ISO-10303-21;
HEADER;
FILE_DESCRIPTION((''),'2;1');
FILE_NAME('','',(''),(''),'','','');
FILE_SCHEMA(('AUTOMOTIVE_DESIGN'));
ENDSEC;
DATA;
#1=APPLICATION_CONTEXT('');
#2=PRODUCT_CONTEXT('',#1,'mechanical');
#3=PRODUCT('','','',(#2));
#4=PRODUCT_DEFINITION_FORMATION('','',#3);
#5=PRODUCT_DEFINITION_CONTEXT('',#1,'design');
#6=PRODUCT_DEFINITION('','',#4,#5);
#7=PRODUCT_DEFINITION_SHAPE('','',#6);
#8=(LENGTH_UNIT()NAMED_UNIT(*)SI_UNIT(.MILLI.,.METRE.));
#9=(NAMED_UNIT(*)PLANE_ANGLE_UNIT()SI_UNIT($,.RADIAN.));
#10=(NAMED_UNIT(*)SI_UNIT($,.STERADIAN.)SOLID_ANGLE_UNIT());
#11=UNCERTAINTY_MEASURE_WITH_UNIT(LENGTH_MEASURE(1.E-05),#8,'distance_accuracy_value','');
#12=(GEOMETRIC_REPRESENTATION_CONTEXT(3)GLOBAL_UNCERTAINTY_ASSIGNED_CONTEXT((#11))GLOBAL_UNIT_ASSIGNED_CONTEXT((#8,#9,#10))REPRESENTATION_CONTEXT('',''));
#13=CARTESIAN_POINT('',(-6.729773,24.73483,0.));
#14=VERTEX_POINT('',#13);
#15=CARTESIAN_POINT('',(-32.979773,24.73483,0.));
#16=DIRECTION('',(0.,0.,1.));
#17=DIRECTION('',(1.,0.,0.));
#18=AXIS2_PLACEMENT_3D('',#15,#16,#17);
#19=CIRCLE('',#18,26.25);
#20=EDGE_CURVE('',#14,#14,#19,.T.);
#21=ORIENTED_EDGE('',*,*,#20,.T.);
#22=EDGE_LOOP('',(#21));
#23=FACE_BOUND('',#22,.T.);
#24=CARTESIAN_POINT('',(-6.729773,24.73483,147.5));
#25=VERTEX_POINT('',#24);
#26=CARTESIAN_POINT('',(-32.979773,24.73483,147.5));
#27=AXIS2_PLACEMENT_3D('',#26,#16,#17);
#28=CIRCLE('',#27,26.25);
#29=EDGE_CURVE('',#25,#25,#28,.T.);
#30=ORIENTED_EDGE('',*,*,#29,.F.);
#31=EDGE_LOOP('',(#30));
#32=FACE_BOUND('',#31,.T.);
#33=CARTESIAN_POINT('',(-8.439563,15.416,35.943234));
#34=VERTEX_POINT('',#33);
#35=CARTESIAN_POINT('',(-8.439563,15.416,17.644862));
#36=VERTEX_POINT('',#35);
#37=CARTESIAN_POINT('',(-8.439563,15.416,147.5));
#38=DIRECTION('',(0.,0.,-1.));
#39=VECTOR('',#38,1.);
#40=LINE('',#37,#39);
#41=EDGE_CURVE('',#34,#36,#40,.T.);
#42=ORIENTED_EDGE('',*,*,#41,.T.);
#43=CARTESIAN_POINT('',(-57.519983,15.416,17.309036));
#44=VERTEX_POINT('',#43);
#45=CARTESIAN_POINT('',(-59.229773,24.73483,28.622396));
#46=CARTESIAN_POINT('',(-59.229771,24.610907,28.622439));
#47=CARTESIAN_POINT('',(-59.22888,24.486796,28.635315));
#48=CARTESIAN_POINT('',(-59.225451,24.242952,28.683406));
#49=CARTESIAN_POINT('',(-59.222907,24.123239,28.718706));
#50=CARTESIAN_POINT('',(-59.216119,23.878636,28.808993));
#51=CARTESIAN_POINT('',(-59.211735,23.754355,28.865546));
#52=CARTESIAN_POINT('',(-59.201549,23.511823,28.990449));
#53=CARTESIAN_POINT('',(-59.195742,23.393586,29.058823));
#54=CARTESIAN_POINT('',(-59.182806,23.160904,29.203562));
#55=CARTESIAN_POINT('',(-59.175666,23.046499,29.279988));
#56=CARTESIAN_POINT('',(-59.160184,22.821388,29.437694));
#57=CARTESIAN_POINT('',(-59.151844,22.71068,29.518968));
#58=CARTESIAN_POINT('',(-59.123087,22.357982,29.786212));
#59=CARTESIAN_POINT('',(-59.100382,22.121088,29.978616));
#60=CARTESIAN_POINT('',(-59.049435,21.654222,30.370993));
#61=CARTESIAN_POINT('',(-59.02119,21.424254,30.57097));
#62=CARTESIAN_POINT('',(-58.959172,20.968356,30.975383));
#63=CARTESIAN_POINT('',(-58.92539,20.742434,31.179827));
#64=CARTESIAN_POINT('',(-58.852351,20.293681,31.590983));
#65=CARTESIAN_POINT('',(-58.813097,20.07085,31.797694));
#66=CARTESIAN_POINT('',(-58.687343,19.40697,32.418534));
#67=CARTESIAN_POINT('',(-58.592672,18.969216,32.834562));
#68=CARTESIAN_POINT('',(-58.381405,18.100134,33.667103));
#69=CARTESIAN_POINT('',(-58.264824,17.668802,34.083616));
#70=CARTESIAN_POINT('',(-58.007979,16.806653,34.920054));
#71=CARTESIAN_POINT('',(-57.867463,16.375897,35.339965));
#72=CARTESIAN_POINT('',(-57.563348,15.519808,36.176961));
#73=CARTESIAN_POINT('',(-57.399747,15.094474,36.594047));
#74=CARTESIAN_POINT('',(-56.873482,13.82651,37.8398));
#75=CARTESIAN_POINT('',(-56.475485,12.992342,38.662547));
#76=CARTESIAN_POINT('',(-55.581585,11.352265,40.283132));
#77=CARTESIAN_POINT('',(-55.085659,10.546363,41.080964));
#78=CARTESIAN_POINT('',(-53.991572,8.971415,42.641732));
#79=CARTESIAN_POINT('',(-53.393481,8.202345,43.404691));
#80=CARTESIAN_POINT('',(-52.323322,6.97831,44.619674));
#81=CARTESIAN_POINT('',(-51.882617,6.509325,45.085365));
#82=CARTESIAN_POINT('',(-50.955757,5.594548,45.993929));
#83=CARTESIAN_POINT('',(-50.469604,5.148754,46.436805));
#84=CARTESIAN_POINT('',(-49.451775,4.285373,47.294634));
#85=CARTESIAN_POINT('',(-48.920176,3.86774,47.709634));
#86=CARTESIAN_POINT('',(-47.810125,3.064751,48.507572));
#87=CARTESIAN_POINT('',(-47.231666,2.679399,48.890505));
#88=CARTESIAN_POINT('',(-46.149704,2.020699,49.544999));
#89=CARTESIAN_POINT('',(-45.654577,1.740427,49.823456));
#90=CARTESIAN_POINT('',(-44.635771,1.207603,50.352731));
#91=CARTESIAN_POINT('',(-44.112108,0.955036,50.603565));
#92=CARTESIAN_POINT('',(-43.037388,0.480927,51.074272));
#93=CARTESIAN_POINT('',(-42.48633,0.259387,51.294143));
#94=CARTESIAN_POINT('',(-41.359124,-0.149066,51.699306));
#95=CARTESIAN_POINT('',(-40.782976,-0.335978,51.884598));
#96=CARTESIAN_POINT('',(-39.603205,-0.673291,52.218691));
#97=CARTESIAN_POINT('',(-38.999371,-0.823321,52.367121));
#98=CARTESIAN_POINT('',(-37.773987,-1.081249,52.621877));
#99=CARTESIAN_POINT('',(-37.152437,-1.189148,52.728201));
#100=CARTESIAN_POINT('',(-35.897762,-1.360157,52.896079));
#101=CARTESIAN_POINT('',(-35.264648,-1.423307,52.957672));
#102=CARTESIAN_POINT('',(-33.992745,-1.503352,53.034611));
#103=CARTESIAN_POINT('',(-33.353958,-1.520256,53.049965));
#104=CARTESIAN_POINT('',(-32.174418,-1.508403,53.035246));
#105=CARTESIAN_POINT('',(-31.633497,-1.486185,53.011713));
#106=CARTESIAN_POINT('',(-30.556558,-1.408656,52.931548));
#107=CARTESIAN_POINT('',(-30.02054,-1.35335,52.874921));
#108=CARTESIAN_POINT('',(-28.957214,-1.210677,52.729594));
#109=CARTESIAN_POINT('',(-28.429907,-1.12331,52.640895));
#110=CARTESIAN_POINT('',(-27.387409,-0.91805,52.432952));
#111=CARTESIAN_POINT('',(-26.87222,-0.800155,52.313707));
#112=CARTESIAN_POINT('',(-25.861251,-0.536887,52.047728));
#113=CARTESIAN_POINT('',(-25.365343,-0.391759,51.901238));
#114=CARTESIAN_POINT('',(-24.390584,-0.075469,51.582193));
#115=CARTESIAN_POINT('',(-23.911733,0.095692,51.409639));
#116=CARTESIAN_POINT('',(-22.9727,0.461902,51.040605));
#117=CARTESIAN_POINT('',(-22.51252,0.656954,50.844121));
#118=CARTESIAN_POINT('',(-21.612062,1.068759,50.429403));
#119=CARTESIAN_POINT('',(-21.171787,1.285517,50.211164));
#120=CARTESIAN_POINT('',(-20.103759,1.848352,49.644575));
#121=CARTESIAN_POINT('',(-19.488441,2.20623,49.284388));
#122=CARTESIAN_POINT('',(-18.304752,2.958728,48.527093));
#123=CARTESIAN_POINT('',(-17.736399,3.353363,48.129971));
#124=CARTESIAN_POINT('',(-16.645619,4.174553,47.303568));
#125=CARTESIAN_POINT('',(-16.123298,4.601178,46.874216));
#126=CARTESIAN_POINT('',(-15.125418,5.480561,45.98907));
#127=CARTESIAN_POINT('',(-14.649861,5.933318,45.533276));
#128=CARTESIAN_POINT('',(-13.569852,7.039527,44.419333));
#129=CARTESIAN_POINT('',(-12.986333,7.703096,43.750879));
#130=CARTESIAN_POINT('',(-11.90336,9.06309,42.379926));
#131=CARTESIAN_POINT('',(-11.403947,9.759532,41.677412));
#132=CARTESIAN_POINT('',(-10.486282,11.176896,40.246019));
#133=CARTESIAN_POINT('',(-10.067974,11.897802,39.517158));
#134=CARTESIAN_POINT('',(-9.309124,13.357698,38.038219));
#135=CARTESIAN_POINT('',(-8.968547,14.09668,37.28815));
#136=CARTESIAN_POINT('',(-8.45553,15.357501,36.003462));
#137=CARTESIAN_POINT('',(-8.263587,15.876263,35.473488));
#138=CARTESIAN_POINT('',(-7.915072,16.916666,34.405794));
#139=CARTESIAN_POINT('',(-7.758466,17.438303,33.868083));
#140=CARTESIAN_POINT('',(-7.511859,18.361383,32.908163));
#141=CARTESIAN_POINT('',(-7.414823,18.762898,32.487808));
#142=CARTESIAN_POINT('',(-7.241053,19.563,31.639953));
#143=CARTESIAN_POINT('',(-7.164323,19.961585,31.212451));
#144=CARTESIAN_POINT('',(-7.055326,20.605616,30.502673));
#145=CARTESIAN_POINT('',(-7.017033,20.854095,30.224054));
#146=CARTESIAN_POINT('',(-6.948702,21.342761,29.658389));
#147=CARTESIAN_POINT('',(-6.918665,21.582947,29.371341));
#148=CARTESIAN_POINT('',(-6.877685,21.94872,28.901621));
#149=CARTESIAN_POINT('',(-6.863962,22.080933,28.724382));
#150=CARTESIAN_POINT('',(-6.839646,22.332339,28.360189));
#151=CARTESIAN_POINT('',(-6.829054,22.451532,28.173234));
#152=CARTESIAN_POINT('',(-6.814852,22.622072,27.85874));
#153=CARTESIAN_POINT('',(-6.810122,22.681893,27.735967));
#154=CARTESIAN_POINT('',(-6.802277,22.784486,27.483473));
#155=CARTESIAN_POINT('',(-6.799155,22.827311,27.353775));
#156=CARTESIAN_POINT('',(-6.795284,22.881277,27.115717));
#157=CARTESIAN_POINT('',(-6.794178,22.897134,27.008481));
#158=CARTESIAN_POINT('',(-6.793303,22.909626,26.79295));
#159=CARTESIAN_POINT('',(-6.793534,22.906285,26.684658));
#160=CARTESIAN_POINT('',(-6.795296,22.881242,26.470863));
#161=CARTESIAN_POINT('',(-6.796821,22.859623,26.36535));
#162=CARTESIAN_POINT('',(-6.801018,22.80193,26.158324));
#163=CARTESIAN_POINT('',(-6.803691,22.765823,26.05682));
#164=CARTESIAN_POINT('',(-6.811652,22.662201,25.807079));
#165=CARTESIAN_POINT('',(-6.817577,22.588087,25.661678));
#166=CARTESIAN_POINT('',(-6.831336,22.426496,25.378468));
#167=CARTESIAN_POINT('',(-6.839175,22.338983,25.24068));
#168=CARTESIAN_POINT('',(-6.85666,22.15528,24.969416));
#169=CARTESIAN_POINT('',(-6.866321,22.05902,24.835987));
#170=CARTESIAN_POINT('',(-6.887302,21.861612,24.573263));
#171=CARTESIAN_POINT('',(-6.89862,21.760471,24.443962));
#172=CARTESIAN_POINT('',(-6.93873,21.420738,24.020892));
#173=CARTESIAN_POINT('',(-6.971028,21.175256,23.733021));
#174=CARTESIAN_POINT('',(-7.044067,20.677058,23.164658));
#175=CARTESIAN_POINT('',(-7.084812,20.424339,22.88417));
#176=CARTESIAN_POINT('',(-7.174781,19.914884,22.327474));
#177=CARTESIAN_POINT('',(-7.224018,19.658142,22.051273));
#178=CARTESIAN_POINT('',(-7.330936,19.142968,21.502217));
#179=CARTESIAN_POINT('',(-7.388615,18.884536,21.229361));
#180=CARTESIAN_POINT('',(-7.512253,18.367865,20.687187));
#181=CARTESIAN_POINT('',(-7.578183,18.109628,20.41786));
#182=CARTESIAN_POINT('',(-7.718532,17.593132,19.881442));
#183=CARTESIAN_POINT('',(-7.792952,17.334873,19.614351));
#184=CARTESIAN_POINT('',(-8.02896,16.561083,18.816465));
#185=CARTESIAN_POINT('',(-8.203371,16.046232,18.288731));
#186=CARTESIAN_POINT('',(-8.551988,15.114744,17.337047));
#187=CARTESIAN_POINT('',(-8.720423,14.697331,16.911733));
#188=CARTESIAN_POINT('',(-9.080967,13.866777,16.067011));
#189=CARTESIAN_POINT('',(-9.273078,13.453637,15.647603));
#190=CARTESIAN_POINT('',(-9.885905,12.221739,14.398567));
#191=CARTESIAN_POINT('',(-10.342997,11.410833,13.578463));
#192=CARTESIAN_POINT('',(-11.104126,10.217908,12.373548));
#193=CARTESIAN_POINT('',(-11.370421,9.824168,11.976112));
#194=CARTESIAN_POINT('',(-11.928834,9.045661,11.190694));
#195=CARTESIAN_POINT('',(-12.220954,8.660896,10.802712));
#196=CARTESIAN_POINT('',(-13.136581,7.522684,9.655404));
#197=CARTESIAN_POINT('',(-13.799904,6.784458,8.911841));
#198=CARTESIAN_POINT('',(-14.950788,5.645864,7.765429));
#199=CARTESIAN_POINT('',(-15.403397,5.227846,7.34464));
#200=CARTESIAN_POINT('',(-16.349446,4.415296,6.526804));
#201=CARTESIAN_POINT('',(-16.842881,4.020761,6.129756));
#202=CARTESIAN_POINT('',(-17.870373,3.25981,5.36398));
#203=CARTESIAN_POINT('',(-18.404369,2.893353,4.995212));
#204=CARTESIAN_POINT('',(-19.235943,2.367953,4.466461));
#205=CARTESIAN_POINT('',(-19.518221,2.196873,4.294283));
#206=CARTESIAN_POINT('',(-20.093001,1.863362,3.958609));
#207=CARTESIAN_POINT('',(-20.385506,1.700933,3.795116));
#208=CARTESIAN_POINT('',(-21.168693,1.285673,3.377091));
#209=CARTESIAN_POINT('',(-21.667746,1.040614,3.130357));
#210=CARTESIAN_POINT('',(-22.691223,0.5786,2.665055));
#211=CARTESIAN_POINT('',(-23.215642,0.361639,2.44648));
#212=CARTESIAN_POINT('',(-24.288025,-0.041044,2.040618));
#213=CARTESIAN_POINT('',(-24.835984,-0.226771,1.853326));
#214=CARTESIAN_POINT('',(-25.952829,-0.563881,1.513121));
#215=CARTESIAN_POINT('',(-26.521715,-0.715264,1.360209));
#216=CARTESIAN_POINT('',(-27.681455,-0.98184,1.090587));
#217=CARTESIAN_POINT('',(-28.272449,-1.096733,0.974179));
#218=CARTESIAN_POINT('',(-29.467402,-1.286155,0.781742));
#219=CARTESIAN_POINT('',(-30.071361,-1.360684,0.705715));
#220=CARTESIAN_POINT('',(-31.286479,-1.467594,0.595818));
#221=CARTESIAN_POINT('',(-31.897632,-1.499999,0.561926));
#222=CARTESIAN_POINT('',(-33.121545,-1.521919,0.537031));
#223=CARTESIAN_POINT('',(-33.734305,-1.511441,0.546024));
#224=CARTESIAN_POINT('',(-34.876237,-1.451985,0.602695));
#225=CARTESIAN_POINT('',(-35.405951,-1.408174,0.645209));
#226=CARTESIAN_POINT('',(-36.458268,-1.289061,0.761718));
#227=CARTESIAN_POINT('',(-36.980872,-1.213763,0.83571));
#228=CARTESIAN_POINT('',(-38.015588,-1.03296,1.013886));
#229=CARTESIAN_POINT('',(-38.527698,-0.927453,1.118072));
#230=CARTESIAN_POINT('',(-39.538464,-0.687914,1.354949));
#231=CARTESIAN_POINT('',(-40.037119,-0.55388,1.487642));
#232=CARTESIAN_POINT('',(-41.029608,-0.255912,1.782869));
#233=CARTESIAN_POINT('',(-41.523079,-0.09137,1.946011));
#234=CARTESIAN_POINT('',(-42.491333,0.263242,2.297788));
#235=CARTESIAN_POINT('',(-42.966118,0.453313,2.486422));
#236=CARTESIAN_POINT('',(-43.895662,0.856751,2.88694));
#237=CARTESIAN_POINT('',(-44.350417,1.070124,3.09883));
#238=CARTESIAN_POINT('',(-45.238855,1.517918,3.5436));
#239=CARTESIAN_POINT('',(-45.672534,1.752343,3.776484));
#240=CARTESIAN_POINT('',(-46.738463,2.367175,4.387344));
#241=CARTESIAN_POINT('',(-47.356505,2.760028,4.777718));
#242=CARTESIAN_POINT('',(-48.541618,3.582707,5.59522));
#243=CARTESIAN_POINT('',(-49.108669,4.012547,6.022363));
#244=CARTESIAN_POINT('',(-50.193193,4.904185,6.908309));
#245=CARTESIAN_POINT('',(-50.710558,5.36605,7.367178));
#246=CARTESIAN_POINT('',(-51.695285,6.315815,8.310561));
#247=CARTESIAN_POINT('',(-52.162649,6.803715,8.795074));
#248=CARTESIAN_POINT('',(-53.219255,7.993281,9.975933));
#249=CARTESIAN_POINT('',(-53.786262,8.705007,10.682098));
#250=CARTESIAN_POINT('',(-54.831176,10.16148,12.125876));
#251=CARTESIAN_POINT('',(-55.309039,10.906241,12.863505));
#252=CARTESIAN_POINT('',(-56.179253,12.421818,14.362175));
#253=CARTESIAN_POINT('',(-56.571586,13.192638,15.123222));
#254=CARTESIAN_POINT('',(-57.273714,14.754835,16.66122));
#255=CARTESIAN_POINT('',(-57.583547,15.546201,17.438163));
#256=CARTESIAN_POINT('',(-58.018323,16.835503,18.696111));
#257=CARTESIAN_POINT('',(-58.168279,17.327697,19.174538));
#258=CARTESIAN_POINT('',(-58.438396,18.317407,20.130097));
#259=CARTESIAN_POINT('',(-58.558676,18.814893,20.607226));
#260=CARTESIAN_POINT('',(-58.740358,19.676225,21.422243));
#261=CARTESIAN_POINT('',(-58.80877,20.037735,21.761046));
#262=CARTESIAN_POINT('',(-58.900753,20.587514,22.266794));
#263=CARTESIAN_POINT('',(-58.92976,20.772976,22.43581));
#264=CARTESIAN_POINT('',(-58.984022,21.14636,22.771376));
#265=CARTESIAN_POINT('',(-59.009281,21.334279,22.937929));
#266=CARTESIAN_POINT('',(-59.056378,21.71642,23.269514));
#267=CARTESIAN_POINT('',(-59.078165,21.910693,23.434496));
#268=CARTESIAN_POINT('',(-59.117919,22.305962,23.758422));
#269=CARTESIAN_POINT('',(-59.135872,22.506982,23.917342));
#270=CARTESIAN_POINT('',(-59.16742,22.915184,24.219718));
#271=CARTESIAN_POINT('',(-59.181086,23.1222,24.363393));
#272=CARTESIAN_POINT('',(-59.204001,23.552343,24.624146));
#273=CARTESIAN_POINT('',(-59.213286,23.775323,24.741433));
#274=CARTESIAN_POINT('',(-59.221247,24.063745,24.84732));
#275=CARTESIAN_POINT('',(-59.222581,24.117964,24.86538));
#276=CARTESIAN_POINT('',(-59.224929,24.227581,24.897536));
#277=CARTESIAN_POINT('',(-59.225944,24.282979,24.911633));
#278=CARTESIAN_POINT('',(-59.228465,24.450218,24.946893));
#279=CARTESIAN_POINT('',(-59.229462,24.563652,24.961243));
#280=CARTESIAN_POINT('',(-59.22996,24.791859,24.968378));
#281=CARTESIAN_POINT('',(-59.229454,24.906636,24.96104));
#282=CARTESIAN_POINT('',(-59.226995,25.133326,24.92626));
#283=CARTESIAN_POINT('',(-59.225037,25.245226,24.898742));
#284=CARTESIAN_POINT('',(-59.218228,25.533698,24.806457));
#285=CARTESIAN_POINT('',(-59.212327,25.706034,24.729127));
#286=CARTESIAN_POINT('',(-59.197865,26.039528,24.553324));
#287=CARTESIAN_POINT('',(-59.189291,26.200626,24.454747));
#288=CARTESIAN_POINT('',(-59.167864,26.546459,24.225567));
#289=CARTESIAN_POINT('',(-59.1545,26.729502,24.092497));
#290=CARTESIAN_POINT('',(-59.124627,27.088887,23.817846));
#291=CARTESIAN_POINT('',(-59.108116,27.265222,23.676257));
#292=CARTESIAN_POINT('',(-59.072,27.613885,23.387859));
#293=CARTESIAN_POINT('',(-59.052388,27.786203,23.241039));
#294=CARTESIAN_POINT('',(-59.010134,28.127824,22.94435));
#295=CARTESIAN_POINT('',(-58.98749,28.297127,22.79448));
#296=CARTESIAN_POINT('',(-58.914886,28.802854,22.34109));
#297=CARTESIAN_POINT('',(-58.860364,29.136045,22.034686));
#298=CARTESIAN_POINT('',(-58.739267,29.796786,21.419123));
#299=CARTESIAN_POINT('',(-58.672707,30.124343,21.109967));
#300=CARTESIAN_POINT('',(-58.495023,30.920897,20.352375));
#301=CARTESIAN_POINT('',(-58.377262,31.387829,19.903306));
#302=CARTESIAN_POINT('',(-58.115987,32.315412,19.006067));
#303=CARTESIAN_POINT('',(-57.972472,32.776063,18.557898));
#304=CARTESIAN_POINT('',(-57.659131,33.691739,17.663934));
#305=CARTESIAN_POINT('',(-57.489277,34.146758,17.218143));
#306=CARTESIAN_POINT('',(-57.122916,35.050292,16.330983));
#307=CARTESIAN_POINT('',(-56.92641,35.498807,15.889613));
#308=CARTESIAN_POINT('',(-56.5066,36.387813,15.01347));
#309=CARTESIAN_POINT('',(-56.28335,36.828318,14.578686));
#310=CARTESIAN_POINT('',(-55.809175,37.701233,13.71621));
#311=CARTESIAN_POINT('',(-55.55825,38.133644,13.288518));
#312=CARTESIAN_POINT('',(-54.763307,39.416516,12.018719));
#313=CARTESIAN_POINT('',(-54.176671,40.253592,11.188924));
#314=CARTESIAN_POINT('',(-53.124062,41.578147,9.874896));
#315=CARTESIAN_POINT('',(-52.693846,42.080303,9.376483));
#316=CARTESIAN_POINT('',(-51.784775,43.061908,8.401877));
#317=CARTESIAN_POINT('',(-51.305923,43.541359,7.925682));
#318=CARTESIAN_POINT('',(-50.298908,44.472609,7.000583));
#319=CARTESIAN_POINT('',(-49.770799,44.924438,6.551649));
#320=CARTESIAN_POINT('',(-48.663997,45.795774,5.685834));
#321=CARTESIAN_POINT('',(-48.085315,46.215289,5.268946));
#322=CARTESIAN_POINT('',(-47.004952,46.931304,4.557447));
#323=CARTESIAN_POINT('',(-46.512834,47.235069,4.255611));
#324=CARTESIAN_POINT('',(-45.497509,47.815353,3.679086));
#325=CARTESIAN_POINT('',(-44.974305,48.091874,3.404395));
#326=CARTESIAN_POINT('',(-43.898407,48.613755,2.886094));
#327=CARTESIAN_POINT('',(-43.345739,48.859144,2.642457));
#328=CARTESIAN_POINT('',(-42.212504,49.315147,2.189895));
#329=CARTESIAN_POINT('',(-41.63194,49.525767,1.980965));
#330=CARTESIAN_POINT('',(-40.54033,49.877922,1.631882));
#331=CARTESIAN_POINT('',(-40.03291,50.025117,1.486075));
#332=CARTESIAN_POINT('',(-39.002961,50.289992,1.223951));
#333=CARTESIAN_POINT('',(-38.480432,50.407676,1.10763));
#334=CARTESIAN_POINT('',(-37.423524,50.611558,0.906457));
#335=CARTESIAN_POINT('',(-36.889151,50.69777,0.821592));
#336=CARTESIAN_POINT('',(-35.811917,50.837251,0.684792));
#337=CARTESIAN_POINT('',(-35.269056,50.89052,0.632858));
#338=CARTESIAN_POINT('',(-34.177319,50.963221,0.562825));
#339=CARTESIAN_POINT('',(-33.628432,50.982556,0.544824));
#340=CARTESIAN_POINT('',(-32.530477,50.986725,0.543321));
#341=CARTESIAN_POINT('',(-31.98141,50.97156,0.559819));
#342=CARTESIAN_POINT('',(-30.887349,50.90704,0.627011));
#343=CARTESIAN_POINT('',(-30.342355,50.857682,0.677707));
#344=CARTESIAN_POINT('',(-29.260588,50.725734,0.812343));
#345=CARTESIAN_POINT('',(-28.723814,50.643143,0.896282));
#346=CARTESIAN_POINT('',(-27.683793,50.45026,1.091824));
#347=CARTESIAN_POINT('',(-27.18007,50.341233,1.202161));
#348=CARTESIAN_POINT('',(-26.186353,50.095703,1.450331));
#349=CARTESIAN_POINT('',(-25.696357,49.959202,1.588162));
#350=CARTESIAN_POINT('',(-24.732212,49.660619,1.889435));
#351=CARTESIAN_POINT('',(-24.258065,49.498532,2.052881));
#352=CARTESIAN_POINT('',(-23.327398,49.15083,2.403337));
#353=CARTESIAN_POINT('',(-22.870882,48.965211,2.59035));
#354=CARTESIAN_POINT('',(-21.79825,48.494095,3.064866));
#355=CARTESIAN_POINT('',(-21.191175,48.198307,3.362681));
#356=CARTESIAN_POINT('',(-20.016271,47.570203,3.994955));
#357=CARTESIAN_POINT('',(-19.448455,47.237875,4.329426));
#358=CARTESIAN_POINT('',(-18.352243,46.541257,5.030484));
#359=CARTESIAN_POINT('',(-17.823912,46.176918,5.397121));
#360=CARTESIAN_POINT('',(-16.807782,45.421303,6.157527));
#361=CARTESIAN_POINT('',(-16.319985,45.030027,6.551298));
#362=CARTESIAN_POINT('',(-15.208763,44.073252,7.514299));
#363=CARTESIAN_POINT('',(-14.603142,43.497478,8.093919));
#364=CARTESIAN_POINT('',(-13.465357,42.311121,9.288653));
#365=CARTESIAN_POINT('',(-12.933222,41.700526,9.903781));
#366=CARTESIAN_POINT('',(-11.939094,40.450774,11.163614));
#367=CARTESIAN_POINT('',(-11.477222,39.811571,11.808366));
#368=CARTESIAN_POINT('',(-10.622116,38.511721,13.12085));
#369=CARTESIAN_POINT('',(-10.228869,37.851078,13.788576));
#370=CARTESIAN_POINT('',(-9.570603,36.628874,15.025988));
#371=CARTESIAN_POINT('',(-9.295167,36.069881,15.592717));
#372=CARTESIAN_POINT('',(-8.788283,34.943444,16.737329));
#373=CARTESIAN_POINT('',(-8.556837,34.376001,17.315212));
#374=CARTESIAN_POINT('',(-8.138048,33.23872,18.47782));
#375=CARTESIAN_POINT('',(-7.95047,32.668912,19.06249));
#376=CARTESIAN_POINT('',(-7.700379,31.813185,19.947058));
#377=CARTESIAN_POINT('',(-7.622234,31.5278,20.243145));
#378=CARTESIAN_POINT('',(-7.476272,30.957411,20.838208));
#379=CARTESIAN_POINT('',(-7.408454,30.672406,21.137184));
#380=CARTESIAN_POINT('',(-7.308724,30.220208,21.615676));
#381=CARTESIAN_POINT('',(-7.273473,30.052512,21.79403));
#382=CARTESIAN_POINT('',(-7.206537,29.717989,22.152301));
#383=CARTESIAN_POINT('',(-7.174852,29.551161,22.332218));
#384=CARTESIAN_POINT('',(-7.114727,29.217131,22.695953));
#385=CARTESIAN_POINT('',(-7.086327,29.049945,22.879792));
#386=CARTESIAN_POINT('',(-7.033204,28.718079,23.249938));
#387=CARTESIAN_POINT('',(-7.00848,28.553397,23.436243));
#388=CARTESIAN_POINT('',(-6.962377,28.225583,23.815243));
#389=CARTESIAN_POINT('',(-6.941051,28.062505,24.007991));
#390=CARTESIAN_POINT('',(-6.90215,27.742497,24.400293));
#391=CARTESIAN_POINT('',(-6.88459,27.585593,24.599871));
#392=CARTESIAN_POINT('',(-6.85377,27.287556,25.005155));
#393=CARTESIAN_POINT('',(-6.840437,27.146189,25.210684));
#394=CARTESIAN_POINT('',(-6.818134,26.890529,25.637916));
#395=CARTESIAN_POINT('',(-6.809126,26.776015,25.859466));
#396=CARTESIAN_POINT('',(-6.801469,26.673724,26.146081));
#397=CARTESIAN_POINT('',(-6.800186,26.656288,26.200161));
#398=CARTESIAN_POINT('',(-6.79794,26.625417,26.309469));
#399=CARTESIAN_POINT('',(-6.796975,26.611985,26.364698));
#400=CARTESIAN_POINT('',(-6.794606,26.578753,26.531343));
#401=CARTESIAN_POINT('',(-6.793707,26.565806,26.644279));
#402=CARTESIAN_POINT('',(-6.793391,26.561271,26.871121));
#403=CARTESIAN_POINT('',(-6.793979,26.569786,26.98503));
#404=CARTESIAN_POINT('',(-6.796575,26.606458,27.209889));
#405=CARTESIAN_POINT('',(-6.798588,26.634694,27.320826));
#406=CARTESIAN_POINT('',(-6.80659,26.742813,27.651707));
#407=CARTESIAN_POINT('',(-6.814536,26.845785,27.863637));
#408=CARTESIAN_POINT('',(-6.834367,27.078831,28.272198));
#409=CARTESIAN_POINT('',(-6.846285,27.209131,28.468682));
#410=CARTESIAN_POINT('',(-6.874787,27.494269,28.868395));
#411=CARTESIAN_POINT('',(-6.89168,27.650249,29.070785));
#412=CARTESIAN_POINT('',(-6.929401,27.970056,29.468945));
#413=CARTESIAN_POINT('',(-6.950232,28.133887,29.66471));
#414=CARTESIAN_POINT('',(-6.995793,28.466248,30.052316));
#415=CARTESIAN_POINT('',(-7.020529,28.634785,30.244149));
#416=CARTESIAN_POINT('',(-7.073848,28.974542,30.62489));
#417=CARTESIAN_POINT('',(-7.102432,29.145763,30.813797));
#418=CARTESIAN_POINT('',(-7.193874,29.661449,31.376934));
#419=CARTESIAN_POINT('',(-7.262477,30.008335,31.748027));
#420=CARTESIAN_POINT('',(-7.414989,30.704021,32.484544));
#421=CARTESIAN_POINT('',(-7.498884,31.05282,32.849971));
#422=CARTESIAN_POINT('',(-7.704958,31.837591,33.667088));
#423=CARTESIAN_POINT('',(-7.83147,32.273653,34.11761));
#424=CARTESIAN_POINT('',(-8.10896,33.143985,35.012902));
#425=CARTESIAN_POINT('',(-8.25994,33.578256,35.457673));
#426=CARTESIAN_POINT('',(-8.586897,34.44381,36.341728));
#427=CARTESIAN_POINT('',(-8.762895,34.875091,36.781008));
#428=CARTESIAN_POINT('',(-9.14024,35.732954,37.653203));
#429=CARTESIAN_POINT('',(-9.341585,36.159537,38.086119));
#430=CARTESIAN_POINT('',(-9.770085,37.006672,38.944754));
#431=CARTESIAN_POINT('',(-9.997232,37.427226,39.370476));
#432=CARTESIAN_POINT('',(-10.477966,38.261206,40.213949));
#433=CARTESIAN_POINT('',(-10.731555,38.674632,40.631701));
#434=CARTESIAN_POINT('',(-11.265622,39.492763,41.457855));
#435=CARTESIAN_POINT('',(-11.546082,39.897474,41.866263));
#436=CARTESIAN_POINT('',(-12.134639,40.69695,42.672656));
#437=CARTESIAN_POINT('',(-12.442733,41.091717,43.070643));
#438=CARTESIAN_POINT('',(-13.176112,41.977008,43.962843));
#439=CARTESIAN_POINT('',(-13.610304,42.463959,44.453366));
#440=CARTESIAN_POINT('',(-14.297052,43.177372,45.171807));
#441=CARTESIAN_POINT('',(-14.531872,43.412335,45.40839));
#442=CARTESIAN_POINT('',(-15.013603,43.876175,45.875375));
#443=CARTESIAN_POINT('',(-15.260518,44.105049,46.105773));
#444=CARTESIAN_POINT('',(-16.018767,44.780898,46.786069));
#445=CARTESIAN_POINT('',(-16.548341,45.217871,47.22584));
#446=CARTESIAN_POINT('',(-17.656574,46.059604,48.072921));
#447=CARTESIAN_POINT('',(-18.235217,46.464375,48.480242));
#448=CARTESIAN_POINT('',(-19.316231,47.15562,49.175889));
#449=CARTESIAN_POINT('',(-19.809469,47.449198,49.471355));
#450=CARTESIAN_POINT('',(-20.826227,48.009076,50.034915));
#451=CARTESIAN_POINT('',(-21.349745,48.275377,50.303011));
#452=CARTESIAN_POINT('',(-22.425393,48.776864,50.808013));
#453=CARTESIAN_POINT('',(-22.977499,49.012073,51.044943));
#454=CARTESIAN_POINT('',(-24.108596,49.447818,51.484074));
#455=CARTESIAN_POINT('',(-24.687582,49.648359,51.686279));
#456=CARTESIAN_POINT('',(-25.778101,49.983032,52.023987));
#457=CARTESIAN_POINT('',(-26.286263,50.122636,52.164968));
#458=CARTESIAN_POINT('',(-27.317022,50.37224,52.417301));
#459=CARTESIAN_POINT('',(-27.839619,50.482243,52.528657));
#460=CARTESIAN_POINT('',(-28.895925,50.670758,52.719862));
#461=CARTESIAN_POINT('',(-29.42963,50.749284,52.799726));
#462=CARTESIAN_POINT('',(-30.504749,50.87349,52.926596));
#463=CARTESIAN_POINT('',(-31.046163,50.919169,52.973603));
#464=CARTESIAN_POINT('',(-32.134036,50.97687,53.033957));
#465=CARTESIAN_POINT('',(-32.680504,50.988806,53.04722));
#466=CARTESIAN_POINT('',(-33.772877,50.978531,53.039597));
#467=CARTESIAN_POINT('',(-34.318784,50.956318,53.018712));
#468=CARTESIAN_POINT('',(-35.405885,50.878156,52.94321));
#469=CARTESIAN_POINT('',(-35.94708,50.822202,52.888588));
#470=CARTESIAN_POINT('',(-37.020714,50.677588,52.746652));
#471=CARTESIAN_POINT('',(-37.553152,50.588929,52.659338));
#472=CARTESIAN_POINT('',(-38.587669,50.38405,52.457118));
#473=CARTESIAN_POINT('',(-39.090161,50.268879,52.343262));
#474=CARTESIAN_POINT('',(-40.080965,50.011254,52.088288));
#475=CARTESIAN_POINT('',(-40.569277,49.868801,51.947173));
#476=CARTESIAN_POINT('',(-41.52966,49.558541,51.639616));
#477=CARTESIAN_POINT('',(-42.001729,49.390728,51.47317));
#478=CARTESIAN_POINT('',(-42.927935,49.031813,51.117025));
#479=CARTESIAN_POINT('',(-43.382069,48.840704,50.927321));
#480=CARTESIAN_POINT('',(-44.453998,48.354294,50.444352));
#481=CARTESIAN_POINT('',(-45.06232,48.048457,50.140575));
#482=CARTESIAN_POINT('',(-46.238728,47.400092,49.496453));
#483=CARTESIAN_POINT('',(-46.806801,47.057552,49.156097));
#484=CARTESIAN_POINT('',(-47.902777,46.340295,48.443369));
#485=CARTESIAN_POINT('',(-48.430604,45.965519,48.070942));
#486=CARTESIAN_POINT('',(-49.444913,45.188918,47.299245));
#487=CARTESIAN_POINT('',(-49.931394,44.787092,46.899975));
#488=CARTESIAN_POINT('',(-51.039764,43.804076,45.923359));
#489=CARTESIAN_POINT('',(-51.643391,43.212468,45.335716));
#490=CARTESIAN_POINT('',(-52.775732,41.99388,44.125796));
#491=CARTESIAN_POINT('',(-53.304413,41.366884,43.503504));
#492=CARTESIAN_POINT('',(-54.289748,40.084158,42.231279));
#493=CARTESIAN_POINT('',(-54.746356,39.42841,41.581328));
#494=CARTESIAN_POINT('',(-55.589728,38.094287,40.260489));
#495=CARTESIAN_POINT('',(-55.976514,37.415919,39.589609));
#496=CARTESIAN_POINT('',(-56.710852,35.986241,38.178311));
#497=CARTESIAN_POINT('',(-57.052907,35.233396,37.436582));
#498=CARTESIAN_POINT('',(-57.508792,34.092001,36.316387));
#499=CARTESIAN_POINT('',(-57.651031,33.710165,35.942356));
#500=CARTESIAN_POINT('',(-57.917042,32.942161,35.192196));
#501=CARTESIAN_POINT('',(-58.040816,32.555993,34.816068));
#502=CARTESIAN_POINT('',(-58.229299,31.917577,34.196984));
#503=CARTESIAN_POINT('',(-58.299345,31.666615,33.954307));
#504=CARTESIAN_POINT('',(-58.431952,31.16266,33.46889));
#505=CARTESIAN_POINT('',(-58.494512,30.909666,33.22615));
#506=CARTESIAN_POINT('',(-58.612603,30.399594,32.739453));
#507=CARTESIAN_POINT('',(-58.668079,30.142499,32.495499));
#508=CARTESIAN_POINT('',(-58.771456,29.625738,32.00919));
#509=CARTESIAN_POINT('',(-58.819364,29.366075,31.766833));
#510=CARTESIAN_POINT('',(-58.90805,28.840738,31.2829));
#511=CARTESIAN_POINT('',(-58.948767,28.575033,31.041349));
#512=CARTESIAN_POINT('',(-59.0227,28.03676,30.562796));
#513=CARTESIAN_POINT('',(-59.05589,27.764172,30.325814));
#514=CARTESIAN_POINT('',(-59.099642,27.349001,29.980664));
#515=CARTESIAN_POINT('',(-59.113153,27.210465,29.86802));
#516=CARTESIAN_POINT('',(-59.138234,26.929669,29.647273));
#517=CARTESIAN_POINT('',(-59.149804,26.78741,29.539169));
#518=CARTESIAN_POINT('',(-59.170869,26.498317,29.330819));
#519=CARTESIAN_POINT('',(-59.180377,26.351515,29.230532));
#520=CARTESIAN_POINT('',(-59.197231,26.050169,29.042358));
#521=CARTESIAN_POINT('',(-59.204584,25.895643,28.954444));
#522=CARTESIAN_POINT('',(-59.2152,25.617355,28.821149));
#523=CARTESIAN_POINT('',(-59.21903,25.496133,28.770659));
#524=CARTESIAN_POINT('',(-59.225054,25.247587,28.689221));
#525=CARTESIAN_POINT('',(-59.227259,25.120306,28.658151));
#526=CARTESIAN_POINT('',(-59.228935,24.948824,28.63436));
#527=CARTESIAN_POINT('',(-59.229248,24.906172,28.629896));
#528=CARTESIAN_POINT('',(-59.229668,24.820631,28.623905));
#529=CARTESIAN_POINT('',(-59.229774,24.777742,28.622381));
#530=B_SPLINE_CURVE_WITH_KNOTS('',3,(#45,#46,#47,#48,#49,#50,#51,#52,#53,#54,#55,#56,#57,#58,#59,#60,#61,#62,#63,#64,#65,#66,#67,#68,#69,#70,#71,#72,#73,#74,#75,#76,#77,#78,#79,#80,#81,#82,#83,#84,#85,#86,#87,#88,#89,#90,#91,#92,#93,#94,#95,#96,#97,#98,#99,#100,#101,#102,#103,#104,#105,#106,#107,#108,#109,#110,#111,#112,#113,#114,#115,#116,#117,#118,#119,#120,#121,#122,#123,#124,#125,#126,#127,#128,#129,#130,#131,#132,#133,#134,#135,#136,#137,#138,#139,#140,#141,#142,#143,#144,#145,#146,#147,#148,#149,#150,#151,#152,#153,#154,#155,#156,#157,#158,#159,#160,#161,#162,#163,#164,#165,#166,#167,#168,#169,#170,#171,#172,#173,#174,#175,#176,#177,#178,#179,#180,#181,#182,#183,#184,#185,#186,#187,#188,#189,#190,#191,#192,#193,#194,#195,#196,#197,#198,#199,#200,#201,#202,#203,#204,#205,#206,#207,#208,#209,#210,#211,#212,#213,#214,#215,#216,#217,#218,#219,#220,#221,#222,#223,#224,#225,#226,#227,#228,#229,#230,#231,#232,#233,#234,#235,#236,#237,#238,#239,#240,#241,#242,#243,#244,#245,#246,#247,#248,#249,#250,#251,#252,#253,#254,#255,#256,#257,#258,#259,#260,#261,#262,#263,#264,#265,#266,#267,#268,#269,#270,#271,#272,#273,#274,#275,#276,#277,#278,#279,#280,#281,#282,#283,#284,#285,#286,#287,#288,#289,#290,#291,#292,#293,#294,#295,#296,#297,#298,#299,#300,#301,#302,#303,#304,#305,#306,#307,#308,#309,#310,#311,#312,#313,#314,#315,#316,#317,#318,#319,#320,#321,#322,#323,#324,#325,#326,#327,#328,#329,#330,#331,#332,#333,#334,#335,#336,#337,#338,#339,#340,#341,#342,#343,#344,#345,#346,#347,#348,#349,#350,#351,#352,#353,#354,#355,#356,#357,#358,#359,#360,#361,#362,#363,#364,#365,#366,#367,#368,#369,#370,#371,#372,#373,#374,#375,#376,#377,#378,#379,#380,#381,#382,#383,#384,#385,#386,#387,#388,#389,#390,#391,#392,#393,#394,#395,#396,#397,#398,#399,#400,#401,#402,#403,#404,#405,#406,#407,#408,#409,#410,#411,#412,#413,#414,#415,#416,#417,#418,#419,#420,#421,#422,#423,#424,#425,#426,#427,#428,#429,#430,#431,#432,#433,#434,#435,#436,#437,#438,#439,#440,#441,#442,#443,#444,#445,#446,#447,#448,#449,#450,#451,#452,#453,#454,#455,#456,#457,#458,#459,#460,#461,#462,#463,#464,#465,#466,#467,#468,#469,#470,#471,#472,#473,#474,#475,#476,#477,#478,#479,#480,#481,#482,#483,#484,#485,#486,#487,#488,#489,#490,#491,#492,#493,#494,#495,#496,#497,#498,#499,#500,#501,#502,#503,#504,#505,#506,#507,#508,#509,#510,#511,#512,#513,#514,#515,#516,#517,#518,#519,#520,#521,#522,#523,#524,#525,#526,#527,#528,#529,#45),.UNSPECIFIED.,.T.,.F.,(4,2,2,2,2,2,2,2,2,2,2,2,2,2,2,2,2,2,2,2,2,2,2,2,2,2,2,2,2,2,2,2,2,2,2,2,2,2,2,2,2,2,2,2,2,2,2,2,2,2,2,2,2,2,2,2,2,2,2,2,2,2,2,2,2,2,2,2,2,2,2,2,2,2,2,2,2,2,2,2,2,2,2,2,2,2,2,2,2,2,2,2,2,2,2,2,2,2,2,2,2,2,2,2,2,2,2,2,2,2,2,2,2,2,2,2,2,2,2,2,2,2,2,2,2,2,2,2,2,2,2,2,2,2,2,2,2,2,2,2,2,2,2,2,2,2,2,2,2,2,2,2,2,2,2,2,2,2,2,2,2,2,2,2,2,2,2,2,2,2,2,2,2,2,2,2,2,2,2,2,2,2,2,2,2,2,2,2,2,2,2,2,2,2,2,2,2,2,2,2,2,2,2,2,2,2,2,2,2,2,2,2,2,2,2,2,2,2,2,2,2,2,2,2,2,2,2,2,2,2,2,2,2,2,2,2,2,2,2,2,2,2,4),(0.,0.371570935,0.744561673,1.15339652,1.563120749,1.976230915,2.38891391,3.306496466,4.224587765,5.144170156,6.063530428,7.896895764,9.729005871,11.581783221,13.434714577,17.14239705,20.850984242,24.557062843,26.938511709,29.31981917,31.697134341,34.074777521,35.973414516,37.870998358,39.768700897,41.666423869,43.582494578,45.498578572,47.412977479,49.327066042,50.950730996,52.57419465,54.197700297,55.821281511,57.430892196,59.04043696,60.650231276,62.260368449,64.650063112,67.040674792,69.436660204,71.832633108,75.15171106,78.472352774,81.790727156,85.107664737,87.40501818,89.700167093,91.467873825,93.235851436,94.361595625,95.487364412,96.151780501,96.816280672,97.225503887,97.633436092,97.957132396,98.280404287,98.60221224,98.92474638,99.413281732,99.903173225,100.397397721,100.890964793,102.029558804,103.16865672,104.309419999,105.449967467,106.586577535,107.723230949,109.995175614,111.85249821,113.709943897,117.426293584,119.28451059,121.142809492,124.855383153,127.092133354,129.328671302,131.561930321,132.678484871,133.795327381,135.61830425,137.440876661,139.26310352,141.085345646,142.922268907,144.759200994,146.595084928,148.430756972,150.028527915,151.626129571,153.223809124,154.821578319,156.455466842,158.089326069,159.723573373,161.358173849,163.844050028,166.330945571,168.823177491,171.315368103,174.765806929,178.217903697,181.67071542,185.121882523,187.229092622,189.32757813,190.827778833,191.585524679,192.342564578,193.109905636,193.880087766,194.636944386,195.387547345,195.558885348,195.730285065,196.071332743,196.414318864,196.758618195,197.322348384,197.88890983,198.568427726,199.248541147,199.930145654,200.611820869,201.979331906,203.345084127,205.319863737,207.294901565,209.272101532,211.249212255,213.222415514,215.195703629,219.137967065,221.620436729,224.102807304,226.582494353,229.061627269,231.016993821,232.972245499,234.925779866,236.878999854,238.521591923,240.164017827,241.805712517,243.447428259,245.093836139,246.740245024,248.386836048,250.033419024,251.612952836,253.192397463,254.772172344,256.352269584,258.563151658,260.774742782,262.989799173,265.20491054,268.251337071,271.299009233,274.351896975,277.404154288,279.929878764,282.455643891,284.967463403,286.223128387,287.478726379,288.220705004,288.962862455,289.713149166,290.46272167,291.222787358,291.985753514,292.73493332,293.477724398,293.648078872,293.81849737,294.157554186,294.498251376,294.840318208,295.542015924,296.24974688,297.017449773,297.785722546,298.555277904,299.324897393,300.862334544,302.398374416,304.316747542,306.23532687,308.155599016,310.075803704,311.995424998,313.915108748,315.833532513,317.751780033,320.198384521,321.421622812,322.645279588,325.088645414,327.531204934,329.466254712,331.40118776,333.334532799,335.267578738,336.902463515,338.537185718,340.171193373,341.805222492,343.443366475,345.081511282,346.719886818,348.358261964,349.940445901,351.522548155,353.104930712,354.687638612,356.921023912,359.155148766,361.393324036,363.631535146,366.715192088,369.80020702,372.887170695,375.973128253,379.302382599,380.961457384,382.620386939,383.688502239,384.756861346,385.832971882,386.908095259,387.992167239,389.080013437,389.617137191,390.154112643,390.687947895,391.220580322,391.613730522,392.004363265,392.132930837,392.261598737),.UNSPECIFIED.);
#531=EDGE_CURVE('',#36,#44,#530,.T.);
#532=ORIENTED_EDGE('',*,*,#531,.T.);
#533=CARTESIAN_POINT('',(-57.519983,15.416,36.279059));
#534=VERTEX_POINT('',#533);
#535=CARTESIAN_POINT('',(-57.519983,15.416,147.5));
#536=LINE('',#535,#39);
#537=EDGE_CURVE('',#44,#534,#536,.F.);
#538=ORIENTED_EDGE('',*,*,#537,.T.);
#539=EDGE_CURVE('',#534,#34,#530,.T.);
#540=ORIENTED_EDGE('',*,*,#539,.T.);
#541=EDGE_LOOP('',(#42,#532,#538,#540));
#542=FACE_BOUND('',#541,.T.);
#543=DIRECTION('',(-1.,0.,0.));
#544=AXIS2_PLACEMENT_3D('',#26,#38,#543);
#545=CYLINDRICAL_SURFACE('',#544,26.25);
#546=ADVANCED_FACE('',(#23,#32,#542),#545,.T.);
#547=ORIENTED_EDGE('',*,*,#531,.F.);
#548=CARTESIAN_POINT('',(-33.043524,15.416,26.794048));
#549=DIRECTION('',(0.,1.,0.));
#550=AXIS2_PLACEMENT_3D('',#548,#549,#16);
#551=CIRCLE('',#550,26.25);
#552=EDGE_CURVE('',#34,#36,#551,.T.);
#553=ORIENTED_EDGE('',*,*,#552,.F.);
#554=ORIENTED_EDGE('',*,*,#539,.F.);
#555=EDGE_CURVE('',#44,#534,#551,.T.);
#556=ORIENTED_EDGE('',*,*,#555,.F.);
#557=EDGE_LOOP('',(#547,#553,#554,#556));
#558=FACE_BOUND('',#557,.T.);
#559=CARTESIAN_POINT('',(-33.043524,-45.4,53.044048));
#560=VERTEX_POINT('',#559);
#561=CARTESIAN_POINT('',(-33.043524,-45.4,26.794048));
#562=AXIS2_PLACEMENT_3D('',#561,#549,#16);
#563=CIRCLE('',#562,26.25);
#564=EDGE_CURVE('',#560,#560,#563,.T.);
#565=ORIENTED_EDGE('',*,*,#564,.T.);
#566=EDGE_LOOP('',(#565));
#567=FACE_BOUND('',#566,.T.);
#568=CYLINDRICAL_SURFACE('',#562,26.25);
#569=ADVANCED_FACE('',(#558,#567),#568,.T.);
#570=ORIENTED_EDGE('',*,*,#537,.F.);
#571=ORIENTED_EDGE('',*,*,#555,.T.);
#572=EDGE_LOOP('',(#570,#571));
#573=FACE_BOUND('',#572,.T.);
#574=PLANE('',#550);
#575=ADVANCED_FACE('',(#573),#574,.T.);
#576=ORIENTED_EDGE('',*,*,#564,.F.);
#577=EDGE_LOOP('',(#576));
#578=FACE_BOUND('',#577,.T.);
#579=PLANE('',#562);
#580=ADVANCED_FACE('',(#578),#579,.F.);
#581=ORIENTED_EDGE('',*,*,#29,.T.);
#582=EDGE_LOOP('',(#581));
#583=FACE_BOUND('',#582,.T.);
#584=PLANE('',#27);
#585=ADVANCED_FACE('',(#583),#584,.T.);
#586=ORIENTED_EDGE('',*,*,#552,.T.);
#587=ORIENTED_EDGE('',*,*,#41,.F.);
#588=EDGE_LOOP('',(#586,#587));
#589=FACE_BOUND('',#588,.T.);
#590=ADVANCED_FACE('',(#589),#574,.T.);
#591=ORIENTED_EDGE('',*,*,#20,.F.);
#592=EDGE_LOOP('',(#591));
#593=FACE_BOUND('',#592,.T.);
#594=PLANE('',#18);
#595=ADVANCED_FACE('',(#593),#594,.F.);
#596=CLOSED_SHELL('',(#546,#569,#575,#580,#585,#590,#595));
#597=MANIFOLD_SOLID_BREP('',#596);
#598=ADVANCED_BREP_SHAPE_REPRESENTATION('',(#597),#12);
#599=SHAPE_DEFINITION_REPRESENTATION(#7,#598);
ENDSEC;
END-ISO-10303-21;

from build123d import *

# Parameters (mm, degrees)
SKETCH2_R                = 26.25
BOSS_EXTRUDE2_DEPTH      = 147.5
BOSS_EXTRUDE4_DEPTH      = 15.416
BOSS_EXTRUDE4_DEPTH_BACK = 45.4
SKETCH3_R                = 26.25


with BuildPart() as part:
    # Sketch2 → Boss-Extrude2 (new body)
    with BuildSketch(Plane.XY):
        with Locations((-32.979772941, 24.734829706)):
            Circle(SKETCH2_R)
    extrude(amount=BOSS_EXTRUDE2_DEPTH)

    # Sketch3 → Boss-Extrude4 (add, two sides: drawn at the far end of the back side and taken through both)
    with BuildSketch(Plane(origin=(0, 0, 0), x_dir=(1, 0, 0), z_dir=(0, 1, 0)).offset(-BOSS_EXTRUDE4_DEPTH_BACK)):
        with Locations(Location((-33.04352384, -26.794047718, 0), (0, 0, 270))):
            Circle(SKETCH3_R)
    extrude(amount=BOSS_EXTRUDE4_DEPTH + BOSS_EXTRUDE4_DEPTH_BACK)


solid = part.part
